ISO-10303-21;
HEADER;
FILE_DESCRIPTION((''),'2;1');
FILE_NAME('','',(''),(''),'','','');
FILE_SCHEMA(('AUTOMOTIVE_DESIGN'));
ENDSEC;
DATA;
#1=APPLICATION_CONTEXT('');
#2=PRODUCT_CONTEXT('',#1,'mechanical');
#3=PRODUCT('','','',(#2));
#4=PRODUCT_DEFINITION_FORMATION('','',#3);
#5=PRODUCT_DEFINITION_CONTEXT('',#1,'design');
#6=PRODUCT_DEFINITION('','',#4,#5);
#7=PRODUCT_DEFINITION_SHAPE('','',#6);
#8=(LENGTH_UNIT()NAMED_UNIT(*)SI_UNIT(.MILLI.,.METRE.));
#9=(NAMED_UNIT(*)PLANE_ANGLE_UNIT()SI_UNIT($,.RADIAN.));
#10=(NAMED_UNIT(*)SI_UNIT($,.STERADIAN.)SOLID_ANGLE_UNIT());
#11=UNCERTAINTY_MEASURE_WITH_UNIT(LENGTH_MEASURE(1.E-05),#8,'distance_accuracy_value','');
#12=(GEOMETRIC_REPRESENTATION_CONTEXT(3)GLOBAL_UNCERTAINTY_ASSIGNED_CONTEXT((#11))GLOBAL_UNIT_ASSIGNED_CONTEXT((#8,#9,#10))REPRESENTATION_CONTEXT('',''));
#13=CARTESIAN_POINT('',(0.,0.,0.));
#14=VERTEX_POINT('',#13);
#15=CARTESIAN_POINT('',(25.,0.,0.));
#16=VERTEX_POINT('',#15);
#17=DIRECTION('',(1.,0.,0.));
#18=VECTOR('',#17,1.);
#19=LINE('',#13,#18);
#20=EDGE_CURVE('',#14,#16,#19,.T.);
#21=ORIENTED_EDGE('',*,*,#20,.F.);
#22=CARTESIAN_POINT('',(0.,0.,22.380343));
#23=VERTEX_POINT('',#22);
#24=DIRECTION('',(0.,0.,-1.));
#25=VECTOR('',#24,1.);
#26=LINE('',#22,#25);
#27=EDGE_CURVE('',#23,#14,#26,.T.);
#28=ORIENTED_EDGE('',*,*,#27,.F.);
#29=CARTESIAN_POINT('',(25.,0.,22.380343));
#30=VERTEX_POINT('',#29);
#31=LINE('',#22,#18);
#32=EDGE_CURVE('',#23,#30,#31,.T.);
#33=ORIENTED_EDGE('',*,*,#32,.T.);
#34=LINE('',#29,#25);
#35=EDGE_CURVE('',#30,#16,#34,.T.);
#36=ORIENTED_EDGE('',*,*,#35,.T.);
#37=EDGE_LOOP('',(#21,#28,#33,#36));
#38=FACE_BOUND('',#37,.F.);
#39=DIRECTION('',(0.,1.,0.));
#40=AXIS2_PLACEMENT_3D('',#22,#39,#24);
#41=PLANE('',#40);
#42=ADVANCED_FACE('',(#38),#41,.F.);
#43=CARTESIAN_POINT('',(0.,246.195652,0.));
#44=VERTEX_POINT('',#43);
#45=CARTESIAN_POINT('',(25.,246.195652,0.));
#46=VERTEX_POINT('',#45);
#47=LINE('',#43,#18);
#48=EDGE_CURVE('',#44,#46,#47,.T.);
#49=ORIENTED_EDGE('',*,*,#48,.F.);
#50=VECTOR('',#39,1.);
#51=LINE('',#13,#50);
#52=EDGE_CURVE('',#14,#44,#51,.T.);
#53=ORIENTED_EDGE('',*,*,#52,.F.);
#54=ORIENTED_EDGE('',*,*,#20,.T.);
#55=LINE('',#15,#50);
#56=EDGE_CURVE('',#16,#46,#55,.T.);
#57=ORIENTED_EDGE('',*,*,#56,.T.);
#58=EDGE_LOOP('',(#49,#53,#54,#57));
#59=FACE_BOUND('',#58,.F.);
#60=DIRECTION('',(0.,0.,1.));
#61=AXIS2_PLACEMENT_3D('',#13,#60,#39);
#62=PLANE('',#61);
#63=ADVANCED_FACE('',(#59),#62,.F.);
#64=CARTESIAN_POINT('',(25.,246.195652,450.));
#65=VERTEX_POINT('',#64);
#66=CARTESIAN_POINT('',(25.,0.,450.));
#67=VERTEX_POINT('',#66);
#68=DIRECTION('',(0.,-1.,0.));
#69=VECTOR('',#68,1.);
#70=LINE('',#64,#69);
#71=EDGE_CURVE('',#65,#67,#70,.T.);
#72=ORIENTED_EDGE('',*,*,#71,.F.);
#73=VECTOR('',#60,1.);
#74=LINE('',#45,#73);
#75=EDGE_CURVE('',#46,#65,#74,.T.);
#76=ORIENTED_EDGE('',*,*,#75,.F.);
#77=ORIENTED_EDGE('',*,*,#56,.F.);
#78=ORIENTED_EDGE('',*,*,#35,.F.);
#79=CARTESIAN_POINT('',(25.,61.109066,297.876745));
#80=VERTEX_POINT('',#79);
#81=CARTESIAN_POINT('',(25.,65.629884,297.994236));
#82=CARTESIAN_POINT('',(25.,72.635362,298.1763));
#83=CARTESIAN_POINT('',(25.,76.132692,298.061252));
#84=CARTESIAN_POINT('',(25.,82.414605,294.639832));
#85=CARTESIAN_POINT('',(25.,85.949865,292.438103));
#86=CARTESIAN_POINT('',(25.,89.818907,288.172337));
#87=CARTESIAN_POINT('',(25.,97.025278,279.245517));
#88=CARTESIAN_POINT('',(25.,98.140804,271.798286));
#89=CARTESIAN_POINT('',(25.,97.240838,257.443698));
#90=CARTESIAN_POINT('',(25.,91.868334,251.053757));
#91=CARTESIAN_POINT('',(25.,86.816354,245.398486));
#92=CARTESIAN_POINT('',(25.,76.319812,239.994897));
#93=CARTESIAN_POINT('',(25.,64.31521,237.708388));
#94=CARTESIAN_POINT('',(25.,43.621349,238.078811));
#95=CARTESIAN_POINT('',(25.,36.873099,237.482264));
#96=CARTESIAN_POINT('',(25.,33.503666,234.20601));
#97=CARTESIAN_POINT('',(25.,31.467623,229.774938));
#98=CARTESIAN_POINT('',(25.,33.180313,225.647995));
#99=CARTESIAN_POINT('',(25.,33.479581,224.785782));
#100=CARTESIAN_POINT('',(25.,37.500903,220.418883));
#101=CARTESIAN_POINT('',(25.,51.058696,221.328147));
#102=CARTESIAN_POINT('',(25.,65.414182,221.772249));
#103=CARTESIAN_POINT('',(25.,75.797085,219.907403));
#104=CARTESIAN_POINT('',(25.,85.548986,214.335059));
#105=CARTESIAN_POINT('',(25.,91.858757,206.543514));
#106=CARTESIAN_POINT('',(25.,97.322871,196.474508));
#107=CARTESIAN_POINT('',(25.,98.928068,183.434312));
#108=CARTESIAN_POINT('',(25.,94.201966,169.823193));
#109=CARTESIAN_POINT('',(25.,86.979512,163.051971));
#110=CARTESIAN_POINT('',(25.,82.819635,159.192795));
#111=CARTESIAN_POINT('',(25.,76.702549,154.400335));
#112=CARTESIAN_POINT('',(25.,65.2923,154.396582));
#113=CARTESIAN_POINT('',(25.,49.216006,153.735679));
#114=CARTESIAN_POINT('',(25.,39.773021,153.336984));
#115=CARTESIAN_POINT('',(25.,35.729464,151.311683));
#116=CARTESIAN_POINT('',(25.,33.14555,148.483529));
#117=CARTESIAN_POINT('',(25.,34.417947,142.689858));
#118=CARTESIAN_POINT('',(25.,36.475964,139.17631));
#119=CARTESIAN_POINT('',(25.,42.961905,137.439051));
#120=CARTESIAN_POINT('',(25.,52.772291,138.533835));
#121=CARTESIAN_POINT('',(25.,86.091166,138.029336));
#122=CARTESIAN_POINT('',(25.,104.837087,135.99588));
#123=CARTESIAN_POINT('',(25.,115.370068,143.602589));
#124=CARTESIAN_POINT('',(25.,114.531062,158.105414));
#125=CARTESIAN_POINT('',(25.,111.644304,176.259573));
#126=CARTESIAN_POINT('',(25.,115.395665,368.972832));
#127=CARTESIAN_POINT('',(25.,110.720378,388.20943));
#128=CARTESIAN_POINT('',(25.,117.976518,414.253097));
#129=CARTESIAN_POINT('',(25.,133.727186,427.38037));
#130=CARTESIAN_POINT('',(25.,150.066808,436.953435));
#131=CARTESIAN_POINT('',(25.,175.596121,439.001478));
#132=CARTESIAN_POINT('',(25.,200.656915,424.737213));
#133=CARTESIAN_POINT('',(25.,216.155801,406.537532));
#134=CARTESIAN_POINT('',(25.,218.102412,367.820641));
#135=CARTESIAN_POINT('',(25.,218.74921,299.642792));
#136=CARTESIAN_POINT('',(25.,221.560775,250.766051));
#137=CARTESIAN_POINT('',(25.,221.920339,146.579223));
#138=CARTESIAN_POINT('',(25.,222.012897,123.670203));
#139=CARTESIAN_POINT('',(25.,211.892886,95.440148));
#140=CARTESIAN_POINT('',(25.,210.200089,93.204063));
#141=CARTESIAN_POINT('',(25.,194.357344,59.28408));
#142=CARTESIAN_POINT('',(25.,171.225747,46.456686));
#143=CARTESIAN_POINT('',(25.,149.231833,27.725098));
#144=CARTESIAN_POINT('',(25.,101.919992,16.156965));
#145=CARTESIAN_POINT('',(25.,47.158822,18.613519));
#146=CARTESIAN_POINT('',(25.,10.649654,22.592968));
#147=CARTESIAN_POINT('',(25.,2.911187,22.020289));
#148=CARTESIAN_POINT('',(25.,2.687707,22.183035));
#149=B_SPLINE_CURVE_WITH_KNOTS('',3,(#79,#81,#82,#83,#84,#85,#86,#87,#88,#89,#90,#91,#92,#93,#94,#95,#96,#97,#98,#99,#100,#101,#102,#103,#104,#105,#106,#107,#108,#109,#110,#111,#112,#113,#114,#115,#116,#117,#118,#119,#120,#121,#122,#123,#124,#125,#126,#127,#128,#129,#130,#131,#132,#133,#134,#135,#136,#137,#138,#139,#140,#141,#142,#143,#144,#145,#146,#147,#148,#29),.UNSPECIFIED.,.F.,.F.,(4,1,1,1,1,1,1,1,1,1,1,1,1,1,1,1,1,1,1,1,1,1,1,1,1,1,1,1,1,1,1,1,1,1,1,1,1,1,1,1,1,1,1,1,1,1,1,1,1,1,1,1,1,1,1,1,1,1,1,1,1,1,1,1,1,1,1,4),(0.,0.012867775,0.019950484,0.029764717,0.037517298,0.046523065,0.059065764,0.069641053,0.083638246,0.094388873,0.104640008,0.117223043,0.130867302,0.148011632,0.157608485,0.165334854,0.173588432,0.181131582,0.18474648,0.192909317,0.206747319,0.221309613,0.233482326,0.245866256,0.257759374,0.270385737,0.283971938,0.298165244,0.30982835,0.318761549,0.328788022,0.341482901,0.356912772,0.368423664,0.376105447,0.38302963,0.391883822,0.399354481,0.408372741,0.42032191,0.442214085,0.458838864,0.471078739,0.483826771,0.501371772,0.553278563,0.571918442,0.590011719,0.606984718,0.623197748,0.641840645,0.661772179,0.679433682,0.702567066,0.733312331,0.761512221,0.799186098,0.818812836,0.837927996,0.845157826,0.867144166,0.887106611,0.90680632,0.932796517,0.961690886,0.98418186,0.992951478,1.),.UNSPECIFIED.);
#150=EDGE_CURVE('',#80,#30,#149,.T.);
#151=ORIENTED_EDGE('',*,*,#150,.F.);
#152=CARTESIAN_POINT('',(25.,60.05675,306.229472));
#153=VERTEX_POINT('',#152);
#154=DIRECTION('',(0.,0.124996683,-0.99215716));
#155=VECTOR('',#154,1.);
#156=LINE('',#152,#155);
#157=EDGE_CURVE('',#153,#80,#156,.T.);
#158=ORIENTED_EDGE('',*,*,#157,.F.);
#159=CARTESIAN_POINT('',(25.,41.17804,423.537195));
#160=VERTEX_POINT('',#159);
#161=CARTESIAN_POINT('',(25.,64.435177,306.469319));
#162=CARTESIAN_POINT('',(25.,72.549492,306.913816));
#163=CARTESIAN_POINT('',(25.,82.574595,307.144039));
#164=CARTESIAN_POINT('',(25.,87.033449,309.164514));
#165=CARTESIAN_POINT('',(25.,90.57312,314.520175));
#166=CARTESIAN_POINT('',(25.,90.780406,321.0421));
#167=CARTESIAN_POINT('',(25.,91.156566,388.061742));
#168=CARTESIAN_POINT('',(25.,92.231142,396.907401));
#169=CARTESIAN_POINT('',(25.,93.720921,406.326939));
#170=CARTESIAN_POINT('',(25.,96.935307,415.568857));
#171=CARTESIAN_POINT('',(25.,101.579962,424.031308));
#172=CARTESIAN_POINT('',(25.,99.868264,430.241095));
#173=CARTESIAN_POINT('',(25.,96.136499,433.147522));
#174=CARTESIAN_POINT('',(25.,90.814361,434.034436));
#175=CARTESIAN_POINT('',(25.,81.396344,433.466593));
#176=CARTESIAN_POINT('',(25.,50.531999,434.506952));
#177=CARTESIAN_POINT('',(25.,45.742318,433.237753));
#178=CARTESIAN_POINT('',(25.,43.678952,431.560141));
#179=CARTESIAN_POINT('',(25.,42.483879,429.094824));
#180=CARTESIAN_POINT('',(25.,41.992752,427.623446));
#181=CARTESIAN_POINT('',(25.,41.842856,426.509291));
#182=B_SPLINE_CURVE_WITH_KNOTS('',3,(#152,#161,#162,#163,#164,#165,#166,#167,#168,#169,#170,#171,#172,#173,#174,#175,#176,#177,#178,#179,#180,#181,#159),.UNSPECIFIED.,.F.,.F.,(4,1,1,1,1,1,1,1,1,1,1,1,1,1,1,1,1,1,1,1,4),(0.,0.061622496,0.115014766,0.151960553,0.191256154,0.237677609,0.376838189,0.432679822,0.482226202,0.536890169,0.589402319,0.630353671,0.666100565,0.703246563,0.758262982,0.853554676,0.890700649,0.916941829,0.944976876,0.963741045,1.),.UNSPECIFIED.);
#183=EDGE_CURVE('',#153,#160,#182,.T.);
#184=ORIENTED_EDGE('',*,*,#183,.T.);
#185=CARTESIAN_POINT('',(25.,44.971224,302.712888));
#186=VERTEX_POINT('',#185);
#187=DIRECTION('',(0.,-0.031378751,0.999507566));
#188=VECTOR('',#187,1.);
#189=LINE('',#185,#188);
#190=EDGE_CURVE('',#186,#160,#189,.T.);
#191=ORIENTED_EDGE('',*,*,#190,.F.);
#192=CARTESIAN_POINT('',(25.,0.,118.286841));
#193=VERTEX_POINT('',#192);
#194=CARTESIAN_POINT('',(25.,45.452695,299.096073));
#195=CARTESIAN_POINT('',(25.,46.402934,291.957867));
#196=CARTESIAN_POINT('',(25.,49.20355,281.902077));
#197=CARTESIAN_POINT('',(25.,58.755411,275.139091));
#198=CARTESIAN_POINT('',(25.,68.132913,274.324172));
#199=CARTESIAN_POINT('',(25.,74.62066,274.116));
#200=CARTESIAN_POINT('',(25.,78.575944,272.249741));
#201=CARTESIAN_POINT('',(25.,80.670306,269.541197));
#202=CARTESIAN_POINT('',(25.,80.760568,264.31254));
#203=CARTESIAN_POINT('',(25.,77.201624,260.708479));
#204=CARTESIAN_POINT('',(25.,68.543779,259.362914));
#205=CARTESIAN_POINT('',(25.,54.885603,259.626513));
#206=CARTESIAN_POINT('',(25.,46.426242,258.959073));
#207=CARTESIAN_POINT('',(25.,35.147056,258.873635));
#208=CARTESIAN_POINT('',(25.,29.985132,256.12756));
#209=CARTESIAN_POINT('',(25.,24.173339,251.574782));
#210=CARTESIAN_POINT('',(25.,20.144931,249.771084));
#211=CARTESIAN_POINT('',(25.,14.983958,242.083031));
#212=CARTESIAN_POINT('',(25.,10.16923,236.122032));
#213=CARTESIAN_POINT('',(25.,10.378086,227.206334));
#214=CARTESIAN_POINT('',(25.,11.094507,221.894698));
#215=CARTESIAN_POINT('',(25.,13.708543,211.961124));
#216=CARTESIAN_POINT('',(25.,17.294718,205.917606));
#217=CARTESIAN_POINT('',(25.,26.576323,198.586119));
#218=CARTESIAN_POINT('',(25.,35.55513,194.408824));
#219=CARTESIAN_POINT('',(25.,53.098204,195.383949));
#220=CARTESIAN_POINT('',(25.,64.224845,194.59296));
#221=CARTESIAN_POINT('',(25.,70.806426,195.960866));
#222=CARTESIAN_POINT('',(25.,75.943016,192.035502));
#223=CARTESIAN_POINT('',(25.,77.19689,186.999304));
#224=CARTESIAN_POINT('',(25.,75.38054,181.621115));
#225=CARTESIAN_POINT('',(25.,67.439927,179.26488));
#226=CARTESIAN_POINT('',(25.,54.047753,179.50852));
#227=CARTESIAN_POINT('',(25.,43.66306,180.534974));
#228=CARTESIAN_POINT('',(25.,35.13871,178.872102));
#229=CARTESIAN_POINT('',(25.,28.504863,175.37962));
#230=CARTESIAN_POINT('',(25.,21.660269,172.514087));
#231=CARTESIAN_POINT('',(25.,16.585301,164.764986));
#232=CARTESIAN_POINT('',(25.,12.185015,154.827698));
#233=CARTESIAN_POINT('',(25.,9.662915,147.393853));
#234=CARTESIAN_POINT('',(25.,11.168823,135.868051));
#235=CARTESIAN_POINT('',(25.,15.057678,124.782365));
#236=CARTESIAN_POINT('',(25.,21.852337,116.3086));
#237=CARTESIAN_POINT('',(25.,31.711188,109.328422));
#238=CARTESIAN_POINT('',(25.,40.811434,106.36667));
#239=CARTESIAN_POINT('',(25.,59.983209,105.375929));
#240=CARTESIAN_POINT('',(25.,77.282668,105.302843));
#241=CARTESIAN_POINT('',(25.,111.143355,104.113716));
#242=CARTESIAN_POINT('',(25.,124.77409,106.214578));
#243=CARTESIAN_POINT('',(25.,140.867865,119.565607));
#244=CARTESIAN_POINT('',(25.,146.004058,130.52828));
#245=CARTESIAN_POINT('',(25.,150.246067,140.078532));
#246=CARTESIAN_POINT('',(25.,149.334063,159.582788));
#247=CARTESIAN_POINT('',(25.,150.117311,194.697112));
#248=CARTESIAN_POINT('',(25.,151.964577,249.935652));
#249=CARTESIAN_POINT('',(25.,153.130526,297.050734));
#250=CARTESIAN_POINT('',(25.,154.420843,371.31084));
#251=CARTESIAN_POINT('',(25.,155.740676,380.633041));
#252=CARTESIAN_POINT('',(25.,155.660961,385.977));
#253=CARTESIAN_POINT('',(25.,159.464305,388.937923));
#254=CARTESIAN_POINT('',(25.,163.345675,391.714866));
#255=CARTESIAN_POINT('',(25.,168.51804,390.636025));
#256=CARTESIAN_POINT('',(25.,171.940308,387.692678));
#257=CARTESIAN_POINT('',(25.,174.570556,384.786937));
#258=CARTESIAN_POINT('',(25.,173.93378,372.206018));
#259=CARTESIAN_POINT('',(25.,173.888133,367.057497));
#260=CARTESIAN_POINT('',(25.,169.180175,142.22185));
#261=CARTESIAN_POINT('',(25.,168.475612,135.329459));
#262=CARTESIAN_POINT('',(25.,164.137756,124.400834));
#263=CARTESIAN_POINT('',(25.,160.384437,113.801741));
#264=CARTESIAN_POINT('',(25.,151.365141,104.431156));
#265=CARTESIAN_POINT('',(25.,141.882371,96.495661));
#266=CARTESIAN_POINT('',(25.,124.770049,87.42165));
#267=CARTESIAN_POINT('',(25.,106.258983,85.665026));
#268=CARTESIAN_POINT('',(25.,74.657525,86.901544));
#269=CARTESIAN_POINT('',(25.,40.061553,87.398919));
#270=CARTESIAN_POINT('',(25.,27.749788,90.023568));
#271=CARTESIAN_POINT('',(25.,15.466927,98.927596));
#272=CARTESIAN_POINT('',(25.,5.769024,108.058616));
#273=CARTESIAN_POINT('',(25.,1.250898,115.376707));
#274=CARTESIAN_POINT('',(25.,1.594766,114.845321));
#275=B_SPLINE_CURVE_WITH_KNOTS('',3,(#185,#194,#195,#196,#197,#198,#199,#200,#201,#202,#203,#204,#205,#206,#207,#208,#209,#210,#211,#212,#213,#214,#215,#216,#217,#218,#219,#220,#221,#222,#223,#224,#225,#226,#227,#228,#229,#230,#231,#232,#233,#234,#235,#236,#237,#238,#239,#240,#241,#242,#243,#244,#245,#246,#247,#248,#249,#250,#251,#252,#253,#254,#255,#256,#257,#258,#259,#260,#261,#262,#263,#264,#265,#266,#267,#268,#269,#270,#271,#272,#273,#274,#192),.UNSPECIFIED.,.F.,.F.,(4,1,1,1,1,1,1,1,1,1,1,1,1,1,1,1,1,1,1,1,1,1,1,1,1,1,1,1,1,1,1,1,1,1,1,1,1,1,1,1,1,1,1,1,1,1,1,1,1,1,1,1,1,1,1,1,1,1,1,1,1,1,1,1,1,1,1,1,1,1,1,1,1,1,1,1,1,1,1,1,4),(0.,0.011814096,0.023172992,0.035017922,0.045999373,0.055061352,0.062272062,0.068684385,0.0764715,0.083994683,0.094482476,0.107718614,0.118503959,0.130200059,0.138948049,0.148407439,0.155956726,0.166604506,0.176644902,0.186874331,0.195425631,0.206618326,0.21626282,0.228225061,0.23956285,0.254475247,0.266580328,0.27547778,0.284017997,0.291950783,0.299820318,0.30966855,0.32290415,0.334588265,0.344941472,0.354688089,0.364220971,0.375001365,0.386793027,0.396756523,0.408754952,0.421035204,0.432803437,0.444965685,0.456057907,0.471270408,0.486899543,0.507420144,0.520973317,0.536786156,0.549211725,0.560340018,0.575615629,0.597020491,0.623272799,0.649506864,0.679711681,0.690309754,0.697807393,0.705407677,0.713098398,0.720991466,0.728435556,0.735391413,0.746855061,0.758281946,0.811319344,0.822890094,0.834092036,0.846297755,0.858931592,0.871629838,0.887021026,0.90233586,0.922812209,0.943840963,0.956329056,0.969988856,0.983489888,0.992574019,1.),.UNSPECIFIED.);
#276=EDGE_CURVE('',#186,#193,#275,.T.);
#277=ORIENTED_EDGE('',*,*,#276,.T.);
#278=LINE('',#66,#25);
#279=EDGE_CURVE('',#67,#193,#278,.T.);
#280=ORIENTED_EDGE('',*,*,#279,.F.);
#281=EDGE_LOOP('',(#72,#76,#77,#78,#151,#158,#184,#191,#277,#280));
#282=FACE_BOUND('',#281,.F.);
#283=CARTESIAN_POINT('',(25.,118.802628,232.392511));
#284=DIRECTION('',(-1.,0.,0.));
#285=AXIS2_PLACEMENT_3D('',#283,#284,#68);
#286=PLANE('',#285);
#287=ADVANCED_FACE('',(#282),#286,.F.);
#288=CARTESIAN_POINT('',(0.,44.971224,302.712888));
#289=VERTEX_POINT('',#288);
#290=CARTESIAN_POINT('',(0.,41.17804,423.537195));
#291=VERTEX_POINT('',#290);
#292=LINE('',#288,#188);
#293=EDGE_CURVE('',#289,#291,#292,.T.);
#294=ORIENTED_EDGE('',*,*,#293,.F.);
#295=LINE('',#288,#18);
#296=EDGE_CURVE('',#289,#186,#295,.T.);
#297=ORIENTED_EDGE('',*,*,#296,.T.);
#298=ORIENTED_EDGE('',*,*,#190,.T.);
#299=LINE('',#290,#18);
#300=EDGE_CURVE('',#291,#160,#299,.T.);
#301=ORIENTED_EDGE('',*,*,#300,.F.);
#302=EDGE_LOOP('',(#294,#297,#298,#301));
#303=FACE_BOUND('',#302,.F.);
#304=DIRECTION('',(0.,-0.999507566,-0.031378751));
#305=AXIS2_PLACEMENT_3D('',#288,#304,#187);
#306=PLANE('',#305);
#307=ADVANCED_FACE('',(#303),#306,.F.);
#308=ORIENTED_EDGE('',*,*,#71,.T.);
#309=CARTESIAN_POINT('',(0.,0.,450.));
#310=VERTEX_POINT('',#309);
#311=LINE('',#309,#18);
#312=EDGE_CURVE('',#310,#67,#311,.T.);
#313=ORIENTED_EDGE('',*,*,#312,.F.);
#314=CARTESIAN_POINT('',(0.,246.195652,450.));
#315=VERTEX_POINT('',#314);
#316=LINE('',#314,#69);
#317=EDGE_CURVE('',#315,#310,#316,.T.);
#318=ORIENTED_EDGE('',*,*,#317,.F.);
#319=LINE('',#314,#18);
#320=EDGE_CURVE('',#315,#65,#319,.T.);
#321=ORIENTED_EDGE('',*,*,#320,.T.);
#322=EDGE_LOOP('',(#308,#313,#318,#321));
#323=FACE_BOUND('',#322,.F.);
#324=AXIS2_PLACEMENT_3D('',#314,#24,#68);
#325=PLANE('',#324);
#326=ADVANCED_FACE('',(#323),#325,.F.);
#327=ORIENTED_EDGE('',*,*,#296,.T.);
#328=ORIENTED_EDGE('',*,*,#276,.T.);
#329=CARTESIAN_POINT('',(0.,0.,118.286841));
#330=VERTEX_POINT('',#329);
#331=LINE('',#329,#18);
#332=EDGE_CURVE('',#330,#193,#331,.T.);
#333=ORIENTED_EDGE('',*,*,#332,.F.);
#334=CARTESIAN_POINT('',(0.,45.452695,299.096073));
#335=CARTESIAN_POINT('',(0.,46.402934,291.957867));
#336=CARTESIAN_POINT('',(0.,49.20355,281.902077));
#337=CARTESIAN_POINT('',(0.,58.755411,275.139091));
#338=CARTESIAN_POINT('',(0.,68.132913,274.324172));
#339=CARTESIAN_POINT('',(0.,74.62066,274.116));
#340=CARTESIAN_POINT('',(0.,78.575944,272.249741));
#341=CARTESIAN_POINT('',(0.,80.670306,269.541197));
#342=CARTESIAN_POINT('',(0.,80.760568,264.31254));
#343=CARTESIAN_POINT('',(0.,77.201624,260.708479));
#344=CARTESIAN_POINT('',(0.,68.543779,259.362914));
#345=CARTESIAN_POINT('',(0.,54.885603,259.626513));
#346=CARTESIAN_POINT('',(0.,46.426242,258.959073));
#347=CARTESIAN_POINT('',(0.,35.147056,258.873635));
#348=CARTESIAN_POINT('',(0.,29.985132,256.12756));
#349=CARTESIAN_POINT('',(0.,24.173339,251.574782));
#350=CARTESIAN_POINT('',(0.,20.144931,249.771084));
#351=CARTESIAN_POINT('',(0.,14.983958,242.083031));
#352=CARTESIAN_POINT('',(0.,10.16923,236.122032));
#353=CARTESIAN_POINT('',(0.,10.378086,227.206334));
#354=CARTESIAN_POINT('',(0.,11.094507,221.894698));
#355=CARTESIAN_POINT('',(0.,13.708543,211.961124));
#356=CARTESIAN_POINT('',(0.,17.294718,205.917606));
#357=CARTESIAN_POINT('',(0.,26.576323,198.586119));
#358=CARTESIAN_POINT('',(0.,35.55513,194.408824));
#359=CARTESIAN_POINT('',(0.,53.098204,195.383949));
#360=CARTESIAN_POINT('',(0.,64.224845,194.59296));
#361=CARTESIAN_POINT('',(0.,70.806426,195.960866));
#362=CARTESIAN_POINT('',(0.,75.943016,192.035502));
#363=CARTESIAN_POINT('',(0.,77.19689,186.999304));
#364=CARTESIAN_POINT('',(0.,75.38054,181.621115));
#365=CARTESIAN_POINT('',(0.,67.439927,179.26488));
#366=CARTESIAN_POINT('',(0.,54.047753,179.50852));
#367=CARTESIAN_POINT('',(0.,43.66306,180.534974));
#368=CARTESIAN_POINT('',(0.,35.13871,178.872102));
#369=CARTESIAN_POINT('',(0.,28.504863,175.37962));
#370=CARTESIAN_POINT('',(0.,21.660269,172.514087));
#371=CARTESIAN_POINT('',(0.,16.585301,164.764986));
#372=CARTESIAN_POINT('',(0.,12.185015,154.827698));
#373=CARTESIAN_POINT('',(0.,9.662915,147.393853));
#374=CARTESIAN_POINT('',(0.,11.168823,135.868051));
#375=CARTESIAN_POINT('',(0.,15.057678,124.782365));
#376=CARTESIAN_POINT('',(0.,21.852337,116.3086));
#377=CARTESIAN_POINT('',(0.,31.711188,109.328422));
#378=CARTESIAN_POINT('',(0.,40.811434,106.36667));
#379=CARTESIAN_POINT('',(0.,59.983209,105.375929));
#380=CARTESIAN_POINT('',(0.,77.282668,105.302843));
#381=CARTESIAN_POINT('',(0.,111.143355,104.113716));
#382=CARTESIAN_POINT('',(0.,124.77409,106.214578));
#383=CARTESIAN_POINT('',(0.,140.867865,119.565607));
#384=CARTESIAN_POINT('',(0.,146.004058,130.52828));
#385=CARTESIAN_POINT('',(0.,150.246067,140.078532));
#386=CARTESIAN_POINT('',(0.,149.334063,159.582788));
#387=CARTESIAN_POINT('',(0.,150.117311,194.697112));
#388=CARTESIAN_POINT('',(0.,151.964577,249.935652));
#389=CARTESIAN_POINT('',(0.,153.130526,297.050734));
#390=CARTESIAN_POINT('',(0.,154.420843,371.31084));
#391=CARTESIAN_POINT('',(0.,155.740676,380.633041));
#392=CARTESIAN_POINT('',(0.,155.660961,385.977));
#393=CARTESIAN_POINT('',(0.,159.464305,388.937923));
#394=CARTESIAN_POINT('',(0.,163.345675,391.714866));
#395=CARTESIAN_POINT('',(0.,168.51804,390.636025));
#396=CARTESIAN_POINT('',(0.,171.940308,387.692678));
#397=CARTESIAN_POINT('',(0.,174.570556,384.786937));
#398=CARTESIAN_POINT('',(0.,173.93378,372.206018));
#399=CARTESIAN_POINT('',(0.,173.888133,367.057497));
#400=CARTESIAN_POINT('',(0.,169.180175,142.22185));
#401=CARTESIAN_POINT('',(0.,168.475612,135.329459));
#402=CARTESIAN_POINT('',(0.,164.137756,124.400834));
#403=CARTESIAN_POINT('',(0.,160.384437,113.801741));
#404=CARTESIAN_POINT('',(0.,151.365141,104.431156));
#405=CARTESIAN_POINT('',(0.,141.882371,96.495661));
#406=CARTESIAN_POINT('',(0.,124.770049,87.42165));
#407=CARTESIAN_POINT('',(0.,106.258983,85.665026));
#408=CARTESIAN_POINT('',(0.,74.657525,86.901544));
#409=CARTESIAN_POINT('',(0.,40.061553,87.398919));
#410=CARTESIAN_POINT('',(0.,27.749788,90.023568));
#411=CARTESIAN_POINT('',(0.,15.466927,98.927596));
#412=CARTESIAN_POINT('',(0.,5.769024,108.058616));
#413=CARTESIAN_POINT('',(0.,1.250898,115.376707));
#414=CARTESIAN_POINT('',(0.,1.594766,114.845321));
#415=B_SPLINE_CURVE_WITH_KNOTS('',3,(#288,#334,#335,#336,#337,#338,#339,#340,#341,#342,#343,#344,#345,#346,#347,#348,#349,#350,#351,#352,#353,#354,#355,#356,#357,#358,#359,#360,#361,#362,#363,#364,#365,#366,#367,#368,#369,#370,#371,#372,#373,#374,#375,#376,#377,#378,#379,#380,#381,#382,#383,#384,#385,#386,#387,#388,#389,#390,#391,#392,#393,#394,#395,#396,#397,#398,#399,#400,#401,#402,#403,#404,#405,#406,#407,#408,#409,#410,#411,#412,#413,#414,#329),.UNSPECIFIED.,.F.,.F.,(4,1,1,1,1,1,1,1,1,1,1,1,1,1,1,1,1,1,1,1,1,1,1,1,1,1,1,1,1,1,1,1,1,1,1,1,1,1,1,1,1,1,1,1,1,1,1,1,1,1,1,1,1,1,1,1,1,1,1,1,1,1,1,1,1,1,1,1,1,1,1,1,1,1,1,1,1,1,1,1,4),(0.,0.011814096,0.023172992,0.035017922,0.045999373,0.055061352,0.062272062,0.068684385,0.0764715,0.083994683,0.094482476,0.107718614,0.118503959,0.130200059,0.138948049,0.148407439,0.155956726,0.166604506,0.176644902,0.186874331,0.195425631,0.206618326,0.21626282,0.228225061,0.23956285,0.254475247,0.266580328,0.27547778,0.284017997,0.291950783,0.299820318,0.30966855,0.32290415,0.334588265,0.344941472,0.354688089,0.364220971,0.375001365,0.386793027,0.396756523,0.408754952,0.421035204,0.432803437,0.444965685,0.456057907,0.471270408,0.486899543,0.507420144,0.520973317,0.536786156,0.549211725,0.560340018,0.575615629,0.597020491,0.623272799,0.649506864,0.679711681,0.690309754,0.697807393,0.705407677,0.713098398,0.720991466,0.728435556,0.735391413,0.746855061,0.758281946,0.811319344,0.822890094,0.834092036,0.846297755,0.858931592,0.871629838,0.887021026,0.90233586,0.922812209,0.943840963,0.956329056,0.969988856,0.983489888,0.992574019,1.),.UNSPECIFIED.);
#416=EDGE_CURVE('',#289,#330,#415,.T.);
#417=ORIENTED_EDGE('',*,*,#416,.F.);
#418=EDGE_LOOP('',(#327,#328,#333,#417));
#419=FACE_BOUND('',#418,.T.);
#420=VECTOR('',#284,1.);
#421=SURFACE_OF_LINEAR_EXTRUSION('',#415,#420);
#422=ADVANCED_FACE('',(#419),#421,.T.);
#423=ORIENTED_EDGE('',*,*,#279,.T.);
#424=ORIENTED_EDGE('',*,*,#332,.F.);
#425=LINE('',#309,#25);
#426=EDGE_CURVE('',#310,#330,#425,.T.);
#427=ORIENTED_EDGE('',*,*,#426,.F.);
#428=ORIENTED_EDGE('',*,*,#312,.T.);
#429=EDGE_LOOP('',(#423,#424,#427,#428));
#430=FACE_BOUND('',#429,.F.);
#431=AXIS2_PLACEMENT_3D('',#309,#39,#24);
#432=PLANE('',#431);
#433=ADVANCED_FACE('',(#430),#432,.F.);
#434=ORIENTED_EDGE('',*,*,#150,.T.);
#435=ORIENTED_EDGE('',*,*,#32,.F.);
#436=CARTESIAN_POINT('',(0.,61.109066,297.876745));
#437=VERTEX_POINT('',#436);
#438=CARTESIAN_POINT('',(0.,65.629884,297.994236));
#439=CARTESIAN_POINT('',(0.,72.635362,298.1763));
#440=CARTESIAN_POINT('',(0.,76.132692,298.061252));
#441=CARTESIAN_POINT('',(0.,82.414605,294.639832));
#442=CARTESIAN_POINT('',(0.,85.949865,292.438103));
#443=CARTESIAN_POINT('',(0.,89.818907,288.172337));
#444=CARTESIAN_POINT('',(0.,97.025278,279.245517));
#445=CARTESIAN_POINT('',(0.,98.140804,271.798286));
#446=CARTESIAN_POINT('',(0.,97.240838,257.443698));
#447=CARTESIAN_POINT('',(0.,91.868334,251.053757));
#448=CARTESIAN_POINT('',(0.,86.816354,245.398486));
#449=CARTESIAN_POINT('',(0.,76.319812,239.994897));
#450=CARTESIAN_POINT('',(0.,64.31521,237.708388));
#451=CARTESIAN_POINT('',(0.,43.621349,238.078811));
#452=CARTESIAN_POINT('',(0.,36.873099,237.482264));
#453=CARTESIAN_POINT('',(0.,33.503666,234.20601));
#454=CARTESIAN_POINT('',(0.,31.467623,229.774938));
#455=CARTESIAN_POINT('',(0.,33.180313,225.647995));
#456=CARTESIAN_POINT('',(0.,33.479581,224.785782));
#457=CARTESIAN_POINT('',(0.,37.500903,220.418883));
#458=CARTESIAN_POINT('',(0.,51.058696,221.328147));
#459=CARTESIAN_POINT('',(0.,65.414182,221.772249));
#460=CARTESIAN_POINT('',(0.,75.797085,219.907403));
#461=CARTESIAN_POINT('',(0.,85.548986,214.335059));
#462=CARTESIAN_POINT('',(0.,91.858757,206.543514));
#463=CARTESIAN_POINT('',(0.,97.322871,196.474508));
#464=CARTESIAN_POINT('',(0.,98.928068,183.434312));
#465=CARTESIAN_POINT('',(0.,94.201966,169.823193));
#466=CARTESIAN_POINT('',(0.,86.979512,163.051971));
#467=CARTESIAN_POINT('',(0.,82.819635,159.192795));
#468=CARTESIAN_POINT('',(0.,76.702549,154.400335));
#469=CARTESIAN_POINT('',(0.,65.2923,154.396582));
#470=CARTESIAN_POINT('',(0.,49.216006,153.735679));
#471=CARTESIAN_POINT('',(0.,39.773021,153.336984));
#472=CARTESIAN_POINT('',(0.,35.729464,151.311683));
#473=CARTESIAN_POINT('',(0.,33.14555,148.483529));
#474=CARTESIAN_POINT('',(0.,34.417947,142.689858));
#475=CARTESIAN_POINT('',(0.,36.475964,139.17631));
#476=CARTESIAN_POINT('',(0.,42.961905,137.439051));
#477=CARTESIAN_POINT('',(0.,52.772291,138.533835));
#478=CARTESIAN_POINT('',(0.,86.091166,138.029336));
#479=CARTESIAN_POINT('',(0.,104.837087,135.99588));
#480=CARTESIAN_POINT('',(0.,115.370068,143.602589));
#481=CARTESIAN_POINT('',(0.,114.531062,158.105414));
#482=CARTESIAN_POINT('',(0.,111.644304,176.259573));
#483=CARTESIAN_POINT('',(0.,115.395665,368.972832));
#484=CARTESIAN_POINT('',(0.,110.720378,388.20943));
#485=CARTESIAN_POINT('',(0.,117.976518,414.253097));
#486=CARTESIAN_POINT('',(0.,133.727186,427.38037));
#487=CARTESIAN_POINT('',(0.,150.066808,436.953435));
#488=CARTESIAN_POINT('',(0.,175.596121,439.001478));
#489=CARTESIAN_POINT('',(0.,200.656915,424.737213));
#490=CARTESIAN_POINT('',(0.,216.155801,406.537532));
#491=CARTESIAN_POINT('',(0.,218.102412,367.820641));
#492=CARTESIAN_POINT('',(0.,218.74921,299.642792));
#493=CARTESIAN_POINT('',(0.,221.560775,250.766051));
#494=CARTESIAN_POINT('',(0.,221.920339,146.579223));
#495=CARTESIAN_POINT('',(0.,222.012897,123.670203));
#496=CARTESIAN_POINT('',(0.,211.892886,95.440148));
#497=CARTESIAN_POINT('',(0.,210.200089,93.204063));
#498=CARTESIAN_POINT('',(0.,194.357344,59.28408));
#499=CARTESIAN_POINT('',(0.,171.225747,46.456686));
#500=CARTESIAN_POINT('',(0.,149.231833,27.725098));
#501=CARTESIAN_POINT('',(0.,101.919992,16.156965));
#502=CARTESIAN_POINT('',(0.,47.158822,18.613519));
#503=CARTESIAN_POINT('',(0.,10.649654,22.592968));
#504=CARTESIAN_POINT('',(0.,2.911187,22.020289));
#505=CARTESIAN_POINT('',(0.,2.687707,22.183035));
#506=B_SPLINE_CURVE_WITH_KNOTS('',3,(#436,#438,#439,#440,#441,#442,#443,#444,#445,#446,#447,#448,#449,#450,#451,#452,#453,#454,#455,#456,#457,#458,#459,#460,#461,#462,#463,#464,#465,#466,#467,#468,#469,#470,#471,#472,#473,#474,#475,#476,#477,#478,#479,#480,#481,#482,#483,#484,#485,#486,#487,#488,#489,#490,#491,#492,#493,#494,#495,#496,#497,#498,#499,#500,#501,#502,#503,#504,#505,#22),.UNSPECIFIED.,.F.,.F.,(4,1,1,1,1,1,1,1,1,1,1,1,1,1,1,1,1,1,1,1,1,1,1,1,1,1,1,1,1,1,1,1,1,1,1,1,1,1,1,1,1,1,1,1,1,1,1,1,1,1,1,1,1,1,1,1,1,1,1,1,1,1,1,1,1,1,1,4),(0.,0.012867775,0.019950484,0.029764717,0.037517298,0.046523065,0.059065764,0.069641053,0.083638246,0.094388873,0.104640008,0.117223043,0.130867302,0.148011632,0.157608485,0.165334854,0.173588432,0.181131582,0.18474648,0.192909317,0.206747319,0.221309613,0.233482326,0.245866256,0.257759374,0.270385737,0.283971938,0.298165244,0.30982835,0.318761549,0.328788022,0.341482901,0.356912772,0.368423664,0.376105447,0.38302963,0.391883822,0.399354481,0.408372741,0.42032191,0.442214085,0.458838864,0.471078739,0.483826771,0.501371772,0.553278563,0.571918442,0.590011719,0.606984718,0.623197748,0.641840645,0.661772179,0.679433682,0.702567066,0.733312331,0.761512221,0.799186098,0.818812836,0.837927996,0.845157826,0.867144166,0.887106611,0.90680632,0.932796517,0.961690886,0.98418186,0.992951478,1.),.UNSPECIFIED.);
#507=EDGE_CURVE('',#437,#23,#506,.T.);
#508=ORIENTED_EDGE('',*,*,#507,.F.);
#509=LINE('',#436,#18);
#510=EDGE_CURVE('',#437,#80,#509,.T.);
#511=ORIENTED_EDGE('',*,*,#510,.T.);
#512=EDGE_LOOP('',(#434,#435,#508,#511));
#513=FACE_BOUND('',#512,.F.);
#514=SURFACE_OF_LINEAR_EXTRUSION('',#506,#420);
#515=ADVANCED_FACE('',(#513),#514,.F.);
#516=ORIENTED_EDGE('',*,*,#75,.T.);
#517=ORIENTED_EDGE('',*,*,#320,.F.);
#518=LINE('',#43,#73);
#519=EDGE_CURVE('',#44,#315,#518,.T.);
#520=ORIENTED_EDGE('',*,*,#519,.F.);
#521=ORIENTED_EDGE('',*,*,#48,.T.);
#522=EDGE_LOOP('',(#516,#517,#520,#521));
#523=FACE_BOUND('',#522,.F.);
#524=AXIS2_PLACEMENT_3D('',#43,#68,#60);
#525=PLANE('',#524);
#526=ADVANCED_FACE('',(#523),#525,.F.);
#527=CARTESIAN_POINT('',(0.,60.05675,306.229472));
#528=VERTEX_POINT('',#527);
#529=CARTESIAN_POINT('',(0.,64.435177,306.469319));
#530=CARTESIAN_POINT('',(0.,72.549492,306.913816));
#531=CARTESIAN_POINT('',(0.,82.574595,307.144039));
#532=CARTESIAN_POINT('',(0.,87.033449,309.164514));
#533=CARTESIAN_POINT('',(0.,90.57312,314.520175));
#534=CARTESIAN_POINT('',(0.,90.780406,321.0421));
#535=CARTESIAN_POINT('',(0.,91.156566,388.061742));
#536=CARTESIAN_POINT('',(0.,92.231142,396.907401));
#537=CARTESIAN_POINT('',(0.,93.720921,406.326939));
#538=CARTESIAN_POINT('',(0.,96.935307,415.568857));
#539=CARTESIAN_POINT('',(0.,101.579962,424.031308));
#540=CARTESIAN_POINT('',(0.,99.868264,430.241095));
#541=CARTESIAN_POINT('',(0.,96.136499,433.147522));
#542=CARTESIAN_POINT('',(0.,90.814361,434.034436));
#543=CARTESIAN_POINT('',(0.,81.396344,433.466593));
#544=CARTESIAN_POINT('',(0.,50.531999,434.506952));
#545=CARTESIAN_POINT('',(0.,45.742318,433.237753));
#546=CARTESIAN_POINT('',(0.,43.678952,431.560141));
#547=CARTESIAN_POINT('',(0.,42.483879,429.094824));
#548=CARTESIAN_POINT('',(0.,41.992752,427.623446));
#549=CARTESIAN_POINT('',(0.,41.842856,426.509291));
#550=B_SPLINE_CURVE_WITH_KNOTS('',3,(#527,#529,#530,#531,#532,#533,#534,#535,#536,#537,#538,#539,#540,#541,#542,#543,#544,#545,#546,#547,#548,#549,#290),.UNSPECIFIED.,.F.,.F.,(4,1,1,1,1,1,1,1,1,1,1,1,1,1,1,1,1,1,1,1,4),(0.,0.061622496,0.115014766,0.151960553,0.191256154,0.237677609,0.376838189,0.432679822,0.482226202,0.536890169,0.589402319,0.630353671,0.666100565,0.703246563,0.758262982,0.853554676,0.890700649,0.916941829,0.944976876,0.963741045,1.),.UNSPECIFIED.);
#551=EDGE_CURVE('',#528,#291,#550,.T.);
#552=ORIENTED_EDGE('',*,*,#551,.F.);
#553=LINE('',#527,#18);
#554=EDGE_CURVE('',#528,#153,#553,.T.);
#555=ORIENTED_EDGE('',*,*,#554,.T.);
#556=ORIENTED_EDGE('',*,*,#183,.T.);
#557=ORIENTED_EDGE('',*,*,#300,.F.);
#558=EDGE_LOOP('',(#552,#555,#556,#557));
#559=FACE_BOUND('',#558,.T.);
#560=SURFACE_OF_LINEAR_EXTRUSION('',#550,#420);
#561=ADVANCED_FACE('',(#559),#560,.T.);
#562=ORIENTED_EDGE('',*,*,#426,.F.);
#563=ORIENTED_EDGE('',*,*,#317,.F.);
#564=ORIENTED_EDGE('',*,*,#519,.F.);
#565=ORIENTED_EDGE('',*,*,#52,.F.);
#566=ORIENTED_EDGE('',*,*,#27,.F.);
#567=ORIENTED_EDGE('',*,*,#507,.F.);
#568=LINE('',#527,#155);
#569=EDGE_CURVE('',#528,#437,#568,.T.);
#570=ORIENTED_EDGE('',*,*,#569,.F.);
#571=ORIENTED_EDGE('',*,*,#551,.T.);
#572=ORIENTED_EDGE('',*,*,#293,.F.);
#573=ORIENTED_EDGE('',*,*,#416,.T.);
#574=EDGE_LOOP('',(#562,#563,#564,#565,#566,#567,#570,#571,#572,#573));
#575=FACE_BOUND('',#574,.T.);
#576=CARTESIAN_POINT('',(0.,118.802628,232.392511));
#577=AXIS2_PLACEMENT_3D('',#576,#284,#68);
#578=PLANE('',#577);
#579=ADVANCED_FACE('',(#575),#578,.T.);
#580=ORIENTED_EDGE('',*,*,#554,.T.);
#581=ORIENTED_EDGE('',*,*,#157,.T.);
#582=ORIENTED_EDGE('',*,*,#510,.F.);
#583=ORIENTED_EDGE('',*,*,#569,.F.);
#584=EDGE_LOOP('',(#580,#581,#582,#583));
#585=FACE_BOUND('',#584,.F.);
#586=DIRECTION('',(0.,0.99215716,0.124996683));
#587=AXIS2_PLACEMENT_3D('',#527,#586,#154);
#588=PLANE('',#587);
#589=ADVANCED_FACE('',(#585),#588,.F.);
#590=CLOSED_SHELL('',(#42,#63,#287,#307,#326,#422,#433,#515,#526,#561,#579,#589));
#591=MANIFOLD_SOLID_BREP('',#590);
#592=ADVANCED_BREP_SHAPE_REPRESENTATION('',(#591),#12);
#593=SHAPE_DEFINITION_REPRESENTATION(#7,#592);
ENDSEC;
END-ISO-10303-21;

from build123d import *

# Parameters (mm, degrees)
F1_DEPTH = 25


with BuildPart() as f1:
    # F0 (on Right) → F1 (new body)
    with BuildSketch(Plane.YZ):
        with BuildLine():
            add(Edge.make_bspline(
                [(44.9712239206, 302.7128875256), (45.4526949302, 299.0960728343), (46.4029340958, 291.9578674051), (49.2035499811, 281.9020774971), (58.7554108546, 275.1390911206), (68.1329133345, 274.3241724622), (74.6206598461, 274.1159996605), (78.57594387, 272.2497413749), (80.6703059955, 269.5411970197), (80.7605682277, 264.3125402484), (77.2016242714, 260.7084792745), (68.5437792435, 259.3629142109), (54.8856034393, 259.6265127602), (46.426241762, 258.9590730913), (35.1470562234, 258.8736345603), (29.9851322588, 256.1275599425), (24.1733387007, 251.5747820657), (20.1449314395, 249.7710841633), (14.9839578995, 242.0830307621), (10.1692304565, 236.1220322001), (10.3780857055, 227.2063339283), (11.0945065174, 221.8946979415), (13.708542815, 211.9611237975), (17.2947178239, 205.9176061722), (26.5763233217, 198.5861187065), (35.5551295581, 194.4088235524), (53.0982035992, 195.3839492028), (64.2248449492, 194.5929600697), (70.8064264471, 195.9608660141), (75.9430162555, 192.0355017554), (77.1968897656, 186.9993038379), (75.3805396701, 181.6211149385), (67.4399266211, 179.2648797096), (54.0477534346, 179.5085195439), (43.6630602103, 180.5349744277), (35.1387095463, 178.8721019624), (28.5048632281, 175.37961951), (21.6602687088, 172.5140872007), (16.585301104, 164.7649862608), (12.1850153389, 154.8276980838), (9.6629147525, 147.393853199), (11.1688231954, 135.8680509439), (15.0576782547, 124.7823652343), (21.8523371942, 116.3085995405), (31.7111884158, 109.3284217772), (40.8114337578, 106.3666699603), (59.9832091133, 105.3759292472), (77.2826684409, 105.302842968), (111.1433545752, 104.1137163406), (124.7740896242, 106.2145780866), (140.8678654116, 119.5656068407), (146.0040580463, 130.5282803924), (150.2460672424, 140.0785319196), (149.3340626131, 159.5827882329), (150.1173105049, 194.6971120608), (151.9645771227, 249.935651556), (153.1305255238, 297.05073433), (154.4208433336, 371.3108396771), (155.7406763815, 380.6330414098), (155.6609613688, 385.976999998), (159.4643050549, 388.9379228132), (163.3456752819, 391.714865994), (168.5180401875, 390.6360253891), (171.9403080655, 387.6926778874), (174.5705561905, 384.7869373158), (173.933780139, 372.2060177476), (173.8881329779, 367.0574966897), (169.1801753039, 142.2218495958), (168.4756124728, 135.3294586496), (164.1377563703, 124.4008336253), (160.3844374556, 113.8017413236), (151.3651410269, 104.4311561348), (141.8823709217, 96.4956612313), (124.7700485703, 87.4216497718), (106.2589829632, 85.6650258125), (74.6575251693, 86.901544153), (40.0615525412, 87.3989188393), (27.7497882395, 90.0235679554), (15.4669273426, 98.92759597), (5.7690238857, 108.0586160012), (1.2508981864, 115.3767069729), (1.5947656939, 114.8453205824), (0, 118.2868406177)],
                knots=[0, 0, 0, 0, 0.0118140963, 0.0231729915, 0.0350179215, 0.0459993731, 0.0550613515, 0.0622720622, 0.0686843852, 0.0764715003, 0.0839946829, 0.0944824762, 0.1077186141, 0.1185039585, 0.1302000587, 0.1389480486, 0.148407439, 0.1559567264, 0.1666045065, 0.1766449015, 0.1868743306, 0.1954256311, 0.2066183262, 0.2162628197, 0.2282250607, 0.2395628501, 0.2544752469, 0.266580328, 0.2754777803, 0.2840179969, 0.2919507834, 0.2998203182, 0.3096685497, 0.3229041504, 0.3345882654, 0.3449414723, 0.3546880894, 0.3642209712, 0.375001365, 0.3867930275, 0.3967565228, 0.4087549517, 0.4210352039, 0.432803437, 0.444965685, 0.4560579073, 0.4712704076, 0.4868995433, 0.5074201442, 0.5209733173, 0.5367861559, 0.5492117249, 0.5603400178, 0.5756156288, 0.5970204906, 0.6232727987, 0.6495068638, 0.6797116812, 0.6903097538, 0.6978073935, 0.7054076771, 0.7130983979, 0.7209914664, 0.7284355558, 0.7353914128, 0.746855061, 0.7582819463, 0.8113193445, 0.8228900942, 0.834092036, 0.8462977551, 0.8589315925, 0.8716298378, 0.8870210256, 0.90233586, 0.922812209, 0.9438409626, 0.9563290559, 0.969988856, 0.9834898884, 0.992574019, 1, 1, 1, 1], degree=3))
            Line((44.9712239206, 302.7128875256), (41.1780402064, 423.5371947289))
            add(Edge.make_bspline(
                [(60.0567497313, 306.2294721603), (64.4351771267, 306.4693194385), (72.5494915309, 306.9138160709), (82.5745950595, 307.1440394515), (87.0334490447, 309.1645144388), (90.5731199176, 314.5201753785), (90.7804055262, 321.0420996686), (91.1565660598, 388.0617421768), (92.2311416473, 396.9074009261), (93.7209207778, 406.3269393977), (96.9353072397, 415.5688571046), (101.5799622801, 424.0313084222), (99.8682637569, 430.241095431), (96.1364985531, 433.1475215239), (90.8143611435, 434.0344356979), (81.3963443199, 433.4665932694), (50.5319990173, 434.5069517385), (45.7423183079, 433.2377527903), (43.6789516373, 431.5601413743), (42.4838785401, 429.0948239297), (41.9927522456, 427.6234459718), (41.8428555131, 426.5092909336), (41.1780402064, 423.5371947289)],
                knots=[0, 0, 0, 0, 0.0616224958, 0.1150147657, 0.1519605526, 0.1912561536, 0.2376776094, 0.3768381894, 0.4326798224, 0.4822262024, 0.5368901687, 0.5894023191, 0.6303536712, 0.666100565, 0.7032465627, 0.7582629821, 0.8535546761, 0.8907006494, 0.916941829, 0.9449768762, 0.9637410453, 1, 1, 1, 1], degree=3))
            Line((60.0567497313, 306.2294721603), (61.1090660095, 297.8767454624))
            add(Edge.make_bspline(
                [(61.1090660095, 297.8767454624), (65.6298837576, 297.9942358749), (72.6353617105, 298.1762995058), (76.132692168, 298.0612521375), (82.4146049068, 294.6398318768), (85.9498648341, 292.4381028065), (89.8189072975, 288.1723365171), (97.0252778476, 279.2455165635), (98.1408041419, 271.7982864543), (97.2408381904, 257.443698058), (91.8683336839, 251.0537569346), (86.8163538452, 245.39848615), (76.3198120067, 239.99489742), (64.3152102125, 237.7083878488), (43.6213486183, 238.0788108477), (36.8730991391, 237.4822644122), (33.5036658978, 234.2060102471), (31.4676228025, 229.7749379201), (33.1803127786, 225.64799518), (33.4795811008, 224.7857815071), (37.5009030689, 220.4188828194), (51.0586957567, 221.3281469023), (65.414181971, 221.7722492171), (75.797085081, 219.9074027819), (85.5489857122, 214.3350594027), (91.858757141, 206.543513783), (97.3228711809, 196.4745077939), (98.9280679901, 183.4343121761), (94.2019661439, 169.823193227), (86.9795118986, 163.0519710519), (82.8196345667, 159.192794988), (76.7025488908, 154.4003347208), (65.292300352, 154.3965817981), (49.2160064245, 153.7356794591), (39.7730210738, 153.3369841016), (35.7294639139, 151.3116827221), (33.1455503229, 148.4835286849), (34.4179474706, 142.6898580149), (36.4759644328, 139.1763099897), (42.961905288, 137.4390510619), (52.7722914475, 138.5338345348), (86.0911659274, 138.0293356873), (104.8370868893, 135.9958795818), (115.3700684692, 143.602588615), (114.5310617953, 158.1054136184), (111.6443042928, 176.259572753), (115.3956647926, 368.9728319503), (110.7203775808, 388.2094297173), (117.9765179596, 414.2530971613), (133.7271860242, 427.3803699587), (150.0668080607, 436.9534349958), (175.596121351, 439.0014775578), (200.6569147125, 424.7372126196), (216.1558013358, 406.537532186), (218.1024120432, 367.8206412134), (218.7492102726, 299.6427915495), (221.5607751342, 250.7660505382), (221.920338631, 146.5792233407), (222.012897224, 123.6702032179), (211.8928864361, 95.4401481171), (210.2000889679, 93.2040631032), (194.3573442973, 59.2840798088), (171.225747212, 46.4566859517), (149.2318329466, 27.7250982635), (101.9199919825, 16.1569646094), (47.1588219217, 18.6135190942), (10.6496540312, 22.5929683004), (2.911187476, 22.0202894871), (2.6877068449, 22.183034569), (0, 22.380342707)],
                knots=[0, 0, 0, 0, 0.0128677755, 0.0199504835, 0.0297647173, 0.0375172976, 0.0465230654, 0.059065764, 0.0696410535, 0.0836382458, 0.0943888728, 0.104640008, 0.1172230427, 0.1308673022, 0.1480116321, 0.1576084845, 0.1653348542, 0.1735884319, 0.1811315819, 0.1847464804, 0.1929093172, 0.2067473191, 0.2213096125, 0.2334823264, 0.245866256, 0.2577593739, 0.2703857372, 0.2839719376, 0.2981652442, 0.3098283498, 0.3187615493, 0.3287880216, 0.3414829015, 0.3569127723, 0.3684236639, 0.3761054467, 0.3830296302, 0.3918838215, 0.3993544814, 0.4083727414, 0.42032191, 0.4422140848, 0.458838864, 0.4710787389, 0.4838267707, 0.5013717716, 0.553278563, 0.571918442, 0.5900117186, 0.6069847184, 0.6231977482, 0.6418406453, 0.6617721785, 0.6794336819, 0.7025670658, 0.7333123315, 0.761512221, 0.7991860976, 0.8188128362, 0.8379279963, 0.8451578259, 0.8671441658, 0.8871066113, 0.9068063196, 0.932796517, 0.9616908856, 0.9841818599, 0.9929514784, 1, 1, 1, 1], degree=3))
            Line((0, 22.380342707), (0, 0))
            Line((0, 0), (246.1956521739, 0))
            Line((246.1956521739, 0), (246.1956521739, 450))
            Line((246.1956521739, 450), (0, 450))
            Line((0, 450), (0, 424.2218732834))
            Line((0, 424.2218732834), (0, 299.9842166901))
            Line((0, 299.9842166901), (0, 118.2868406177))
        make_face()
    extrude(amount=F1_DEPTH)


solid = f1.part
